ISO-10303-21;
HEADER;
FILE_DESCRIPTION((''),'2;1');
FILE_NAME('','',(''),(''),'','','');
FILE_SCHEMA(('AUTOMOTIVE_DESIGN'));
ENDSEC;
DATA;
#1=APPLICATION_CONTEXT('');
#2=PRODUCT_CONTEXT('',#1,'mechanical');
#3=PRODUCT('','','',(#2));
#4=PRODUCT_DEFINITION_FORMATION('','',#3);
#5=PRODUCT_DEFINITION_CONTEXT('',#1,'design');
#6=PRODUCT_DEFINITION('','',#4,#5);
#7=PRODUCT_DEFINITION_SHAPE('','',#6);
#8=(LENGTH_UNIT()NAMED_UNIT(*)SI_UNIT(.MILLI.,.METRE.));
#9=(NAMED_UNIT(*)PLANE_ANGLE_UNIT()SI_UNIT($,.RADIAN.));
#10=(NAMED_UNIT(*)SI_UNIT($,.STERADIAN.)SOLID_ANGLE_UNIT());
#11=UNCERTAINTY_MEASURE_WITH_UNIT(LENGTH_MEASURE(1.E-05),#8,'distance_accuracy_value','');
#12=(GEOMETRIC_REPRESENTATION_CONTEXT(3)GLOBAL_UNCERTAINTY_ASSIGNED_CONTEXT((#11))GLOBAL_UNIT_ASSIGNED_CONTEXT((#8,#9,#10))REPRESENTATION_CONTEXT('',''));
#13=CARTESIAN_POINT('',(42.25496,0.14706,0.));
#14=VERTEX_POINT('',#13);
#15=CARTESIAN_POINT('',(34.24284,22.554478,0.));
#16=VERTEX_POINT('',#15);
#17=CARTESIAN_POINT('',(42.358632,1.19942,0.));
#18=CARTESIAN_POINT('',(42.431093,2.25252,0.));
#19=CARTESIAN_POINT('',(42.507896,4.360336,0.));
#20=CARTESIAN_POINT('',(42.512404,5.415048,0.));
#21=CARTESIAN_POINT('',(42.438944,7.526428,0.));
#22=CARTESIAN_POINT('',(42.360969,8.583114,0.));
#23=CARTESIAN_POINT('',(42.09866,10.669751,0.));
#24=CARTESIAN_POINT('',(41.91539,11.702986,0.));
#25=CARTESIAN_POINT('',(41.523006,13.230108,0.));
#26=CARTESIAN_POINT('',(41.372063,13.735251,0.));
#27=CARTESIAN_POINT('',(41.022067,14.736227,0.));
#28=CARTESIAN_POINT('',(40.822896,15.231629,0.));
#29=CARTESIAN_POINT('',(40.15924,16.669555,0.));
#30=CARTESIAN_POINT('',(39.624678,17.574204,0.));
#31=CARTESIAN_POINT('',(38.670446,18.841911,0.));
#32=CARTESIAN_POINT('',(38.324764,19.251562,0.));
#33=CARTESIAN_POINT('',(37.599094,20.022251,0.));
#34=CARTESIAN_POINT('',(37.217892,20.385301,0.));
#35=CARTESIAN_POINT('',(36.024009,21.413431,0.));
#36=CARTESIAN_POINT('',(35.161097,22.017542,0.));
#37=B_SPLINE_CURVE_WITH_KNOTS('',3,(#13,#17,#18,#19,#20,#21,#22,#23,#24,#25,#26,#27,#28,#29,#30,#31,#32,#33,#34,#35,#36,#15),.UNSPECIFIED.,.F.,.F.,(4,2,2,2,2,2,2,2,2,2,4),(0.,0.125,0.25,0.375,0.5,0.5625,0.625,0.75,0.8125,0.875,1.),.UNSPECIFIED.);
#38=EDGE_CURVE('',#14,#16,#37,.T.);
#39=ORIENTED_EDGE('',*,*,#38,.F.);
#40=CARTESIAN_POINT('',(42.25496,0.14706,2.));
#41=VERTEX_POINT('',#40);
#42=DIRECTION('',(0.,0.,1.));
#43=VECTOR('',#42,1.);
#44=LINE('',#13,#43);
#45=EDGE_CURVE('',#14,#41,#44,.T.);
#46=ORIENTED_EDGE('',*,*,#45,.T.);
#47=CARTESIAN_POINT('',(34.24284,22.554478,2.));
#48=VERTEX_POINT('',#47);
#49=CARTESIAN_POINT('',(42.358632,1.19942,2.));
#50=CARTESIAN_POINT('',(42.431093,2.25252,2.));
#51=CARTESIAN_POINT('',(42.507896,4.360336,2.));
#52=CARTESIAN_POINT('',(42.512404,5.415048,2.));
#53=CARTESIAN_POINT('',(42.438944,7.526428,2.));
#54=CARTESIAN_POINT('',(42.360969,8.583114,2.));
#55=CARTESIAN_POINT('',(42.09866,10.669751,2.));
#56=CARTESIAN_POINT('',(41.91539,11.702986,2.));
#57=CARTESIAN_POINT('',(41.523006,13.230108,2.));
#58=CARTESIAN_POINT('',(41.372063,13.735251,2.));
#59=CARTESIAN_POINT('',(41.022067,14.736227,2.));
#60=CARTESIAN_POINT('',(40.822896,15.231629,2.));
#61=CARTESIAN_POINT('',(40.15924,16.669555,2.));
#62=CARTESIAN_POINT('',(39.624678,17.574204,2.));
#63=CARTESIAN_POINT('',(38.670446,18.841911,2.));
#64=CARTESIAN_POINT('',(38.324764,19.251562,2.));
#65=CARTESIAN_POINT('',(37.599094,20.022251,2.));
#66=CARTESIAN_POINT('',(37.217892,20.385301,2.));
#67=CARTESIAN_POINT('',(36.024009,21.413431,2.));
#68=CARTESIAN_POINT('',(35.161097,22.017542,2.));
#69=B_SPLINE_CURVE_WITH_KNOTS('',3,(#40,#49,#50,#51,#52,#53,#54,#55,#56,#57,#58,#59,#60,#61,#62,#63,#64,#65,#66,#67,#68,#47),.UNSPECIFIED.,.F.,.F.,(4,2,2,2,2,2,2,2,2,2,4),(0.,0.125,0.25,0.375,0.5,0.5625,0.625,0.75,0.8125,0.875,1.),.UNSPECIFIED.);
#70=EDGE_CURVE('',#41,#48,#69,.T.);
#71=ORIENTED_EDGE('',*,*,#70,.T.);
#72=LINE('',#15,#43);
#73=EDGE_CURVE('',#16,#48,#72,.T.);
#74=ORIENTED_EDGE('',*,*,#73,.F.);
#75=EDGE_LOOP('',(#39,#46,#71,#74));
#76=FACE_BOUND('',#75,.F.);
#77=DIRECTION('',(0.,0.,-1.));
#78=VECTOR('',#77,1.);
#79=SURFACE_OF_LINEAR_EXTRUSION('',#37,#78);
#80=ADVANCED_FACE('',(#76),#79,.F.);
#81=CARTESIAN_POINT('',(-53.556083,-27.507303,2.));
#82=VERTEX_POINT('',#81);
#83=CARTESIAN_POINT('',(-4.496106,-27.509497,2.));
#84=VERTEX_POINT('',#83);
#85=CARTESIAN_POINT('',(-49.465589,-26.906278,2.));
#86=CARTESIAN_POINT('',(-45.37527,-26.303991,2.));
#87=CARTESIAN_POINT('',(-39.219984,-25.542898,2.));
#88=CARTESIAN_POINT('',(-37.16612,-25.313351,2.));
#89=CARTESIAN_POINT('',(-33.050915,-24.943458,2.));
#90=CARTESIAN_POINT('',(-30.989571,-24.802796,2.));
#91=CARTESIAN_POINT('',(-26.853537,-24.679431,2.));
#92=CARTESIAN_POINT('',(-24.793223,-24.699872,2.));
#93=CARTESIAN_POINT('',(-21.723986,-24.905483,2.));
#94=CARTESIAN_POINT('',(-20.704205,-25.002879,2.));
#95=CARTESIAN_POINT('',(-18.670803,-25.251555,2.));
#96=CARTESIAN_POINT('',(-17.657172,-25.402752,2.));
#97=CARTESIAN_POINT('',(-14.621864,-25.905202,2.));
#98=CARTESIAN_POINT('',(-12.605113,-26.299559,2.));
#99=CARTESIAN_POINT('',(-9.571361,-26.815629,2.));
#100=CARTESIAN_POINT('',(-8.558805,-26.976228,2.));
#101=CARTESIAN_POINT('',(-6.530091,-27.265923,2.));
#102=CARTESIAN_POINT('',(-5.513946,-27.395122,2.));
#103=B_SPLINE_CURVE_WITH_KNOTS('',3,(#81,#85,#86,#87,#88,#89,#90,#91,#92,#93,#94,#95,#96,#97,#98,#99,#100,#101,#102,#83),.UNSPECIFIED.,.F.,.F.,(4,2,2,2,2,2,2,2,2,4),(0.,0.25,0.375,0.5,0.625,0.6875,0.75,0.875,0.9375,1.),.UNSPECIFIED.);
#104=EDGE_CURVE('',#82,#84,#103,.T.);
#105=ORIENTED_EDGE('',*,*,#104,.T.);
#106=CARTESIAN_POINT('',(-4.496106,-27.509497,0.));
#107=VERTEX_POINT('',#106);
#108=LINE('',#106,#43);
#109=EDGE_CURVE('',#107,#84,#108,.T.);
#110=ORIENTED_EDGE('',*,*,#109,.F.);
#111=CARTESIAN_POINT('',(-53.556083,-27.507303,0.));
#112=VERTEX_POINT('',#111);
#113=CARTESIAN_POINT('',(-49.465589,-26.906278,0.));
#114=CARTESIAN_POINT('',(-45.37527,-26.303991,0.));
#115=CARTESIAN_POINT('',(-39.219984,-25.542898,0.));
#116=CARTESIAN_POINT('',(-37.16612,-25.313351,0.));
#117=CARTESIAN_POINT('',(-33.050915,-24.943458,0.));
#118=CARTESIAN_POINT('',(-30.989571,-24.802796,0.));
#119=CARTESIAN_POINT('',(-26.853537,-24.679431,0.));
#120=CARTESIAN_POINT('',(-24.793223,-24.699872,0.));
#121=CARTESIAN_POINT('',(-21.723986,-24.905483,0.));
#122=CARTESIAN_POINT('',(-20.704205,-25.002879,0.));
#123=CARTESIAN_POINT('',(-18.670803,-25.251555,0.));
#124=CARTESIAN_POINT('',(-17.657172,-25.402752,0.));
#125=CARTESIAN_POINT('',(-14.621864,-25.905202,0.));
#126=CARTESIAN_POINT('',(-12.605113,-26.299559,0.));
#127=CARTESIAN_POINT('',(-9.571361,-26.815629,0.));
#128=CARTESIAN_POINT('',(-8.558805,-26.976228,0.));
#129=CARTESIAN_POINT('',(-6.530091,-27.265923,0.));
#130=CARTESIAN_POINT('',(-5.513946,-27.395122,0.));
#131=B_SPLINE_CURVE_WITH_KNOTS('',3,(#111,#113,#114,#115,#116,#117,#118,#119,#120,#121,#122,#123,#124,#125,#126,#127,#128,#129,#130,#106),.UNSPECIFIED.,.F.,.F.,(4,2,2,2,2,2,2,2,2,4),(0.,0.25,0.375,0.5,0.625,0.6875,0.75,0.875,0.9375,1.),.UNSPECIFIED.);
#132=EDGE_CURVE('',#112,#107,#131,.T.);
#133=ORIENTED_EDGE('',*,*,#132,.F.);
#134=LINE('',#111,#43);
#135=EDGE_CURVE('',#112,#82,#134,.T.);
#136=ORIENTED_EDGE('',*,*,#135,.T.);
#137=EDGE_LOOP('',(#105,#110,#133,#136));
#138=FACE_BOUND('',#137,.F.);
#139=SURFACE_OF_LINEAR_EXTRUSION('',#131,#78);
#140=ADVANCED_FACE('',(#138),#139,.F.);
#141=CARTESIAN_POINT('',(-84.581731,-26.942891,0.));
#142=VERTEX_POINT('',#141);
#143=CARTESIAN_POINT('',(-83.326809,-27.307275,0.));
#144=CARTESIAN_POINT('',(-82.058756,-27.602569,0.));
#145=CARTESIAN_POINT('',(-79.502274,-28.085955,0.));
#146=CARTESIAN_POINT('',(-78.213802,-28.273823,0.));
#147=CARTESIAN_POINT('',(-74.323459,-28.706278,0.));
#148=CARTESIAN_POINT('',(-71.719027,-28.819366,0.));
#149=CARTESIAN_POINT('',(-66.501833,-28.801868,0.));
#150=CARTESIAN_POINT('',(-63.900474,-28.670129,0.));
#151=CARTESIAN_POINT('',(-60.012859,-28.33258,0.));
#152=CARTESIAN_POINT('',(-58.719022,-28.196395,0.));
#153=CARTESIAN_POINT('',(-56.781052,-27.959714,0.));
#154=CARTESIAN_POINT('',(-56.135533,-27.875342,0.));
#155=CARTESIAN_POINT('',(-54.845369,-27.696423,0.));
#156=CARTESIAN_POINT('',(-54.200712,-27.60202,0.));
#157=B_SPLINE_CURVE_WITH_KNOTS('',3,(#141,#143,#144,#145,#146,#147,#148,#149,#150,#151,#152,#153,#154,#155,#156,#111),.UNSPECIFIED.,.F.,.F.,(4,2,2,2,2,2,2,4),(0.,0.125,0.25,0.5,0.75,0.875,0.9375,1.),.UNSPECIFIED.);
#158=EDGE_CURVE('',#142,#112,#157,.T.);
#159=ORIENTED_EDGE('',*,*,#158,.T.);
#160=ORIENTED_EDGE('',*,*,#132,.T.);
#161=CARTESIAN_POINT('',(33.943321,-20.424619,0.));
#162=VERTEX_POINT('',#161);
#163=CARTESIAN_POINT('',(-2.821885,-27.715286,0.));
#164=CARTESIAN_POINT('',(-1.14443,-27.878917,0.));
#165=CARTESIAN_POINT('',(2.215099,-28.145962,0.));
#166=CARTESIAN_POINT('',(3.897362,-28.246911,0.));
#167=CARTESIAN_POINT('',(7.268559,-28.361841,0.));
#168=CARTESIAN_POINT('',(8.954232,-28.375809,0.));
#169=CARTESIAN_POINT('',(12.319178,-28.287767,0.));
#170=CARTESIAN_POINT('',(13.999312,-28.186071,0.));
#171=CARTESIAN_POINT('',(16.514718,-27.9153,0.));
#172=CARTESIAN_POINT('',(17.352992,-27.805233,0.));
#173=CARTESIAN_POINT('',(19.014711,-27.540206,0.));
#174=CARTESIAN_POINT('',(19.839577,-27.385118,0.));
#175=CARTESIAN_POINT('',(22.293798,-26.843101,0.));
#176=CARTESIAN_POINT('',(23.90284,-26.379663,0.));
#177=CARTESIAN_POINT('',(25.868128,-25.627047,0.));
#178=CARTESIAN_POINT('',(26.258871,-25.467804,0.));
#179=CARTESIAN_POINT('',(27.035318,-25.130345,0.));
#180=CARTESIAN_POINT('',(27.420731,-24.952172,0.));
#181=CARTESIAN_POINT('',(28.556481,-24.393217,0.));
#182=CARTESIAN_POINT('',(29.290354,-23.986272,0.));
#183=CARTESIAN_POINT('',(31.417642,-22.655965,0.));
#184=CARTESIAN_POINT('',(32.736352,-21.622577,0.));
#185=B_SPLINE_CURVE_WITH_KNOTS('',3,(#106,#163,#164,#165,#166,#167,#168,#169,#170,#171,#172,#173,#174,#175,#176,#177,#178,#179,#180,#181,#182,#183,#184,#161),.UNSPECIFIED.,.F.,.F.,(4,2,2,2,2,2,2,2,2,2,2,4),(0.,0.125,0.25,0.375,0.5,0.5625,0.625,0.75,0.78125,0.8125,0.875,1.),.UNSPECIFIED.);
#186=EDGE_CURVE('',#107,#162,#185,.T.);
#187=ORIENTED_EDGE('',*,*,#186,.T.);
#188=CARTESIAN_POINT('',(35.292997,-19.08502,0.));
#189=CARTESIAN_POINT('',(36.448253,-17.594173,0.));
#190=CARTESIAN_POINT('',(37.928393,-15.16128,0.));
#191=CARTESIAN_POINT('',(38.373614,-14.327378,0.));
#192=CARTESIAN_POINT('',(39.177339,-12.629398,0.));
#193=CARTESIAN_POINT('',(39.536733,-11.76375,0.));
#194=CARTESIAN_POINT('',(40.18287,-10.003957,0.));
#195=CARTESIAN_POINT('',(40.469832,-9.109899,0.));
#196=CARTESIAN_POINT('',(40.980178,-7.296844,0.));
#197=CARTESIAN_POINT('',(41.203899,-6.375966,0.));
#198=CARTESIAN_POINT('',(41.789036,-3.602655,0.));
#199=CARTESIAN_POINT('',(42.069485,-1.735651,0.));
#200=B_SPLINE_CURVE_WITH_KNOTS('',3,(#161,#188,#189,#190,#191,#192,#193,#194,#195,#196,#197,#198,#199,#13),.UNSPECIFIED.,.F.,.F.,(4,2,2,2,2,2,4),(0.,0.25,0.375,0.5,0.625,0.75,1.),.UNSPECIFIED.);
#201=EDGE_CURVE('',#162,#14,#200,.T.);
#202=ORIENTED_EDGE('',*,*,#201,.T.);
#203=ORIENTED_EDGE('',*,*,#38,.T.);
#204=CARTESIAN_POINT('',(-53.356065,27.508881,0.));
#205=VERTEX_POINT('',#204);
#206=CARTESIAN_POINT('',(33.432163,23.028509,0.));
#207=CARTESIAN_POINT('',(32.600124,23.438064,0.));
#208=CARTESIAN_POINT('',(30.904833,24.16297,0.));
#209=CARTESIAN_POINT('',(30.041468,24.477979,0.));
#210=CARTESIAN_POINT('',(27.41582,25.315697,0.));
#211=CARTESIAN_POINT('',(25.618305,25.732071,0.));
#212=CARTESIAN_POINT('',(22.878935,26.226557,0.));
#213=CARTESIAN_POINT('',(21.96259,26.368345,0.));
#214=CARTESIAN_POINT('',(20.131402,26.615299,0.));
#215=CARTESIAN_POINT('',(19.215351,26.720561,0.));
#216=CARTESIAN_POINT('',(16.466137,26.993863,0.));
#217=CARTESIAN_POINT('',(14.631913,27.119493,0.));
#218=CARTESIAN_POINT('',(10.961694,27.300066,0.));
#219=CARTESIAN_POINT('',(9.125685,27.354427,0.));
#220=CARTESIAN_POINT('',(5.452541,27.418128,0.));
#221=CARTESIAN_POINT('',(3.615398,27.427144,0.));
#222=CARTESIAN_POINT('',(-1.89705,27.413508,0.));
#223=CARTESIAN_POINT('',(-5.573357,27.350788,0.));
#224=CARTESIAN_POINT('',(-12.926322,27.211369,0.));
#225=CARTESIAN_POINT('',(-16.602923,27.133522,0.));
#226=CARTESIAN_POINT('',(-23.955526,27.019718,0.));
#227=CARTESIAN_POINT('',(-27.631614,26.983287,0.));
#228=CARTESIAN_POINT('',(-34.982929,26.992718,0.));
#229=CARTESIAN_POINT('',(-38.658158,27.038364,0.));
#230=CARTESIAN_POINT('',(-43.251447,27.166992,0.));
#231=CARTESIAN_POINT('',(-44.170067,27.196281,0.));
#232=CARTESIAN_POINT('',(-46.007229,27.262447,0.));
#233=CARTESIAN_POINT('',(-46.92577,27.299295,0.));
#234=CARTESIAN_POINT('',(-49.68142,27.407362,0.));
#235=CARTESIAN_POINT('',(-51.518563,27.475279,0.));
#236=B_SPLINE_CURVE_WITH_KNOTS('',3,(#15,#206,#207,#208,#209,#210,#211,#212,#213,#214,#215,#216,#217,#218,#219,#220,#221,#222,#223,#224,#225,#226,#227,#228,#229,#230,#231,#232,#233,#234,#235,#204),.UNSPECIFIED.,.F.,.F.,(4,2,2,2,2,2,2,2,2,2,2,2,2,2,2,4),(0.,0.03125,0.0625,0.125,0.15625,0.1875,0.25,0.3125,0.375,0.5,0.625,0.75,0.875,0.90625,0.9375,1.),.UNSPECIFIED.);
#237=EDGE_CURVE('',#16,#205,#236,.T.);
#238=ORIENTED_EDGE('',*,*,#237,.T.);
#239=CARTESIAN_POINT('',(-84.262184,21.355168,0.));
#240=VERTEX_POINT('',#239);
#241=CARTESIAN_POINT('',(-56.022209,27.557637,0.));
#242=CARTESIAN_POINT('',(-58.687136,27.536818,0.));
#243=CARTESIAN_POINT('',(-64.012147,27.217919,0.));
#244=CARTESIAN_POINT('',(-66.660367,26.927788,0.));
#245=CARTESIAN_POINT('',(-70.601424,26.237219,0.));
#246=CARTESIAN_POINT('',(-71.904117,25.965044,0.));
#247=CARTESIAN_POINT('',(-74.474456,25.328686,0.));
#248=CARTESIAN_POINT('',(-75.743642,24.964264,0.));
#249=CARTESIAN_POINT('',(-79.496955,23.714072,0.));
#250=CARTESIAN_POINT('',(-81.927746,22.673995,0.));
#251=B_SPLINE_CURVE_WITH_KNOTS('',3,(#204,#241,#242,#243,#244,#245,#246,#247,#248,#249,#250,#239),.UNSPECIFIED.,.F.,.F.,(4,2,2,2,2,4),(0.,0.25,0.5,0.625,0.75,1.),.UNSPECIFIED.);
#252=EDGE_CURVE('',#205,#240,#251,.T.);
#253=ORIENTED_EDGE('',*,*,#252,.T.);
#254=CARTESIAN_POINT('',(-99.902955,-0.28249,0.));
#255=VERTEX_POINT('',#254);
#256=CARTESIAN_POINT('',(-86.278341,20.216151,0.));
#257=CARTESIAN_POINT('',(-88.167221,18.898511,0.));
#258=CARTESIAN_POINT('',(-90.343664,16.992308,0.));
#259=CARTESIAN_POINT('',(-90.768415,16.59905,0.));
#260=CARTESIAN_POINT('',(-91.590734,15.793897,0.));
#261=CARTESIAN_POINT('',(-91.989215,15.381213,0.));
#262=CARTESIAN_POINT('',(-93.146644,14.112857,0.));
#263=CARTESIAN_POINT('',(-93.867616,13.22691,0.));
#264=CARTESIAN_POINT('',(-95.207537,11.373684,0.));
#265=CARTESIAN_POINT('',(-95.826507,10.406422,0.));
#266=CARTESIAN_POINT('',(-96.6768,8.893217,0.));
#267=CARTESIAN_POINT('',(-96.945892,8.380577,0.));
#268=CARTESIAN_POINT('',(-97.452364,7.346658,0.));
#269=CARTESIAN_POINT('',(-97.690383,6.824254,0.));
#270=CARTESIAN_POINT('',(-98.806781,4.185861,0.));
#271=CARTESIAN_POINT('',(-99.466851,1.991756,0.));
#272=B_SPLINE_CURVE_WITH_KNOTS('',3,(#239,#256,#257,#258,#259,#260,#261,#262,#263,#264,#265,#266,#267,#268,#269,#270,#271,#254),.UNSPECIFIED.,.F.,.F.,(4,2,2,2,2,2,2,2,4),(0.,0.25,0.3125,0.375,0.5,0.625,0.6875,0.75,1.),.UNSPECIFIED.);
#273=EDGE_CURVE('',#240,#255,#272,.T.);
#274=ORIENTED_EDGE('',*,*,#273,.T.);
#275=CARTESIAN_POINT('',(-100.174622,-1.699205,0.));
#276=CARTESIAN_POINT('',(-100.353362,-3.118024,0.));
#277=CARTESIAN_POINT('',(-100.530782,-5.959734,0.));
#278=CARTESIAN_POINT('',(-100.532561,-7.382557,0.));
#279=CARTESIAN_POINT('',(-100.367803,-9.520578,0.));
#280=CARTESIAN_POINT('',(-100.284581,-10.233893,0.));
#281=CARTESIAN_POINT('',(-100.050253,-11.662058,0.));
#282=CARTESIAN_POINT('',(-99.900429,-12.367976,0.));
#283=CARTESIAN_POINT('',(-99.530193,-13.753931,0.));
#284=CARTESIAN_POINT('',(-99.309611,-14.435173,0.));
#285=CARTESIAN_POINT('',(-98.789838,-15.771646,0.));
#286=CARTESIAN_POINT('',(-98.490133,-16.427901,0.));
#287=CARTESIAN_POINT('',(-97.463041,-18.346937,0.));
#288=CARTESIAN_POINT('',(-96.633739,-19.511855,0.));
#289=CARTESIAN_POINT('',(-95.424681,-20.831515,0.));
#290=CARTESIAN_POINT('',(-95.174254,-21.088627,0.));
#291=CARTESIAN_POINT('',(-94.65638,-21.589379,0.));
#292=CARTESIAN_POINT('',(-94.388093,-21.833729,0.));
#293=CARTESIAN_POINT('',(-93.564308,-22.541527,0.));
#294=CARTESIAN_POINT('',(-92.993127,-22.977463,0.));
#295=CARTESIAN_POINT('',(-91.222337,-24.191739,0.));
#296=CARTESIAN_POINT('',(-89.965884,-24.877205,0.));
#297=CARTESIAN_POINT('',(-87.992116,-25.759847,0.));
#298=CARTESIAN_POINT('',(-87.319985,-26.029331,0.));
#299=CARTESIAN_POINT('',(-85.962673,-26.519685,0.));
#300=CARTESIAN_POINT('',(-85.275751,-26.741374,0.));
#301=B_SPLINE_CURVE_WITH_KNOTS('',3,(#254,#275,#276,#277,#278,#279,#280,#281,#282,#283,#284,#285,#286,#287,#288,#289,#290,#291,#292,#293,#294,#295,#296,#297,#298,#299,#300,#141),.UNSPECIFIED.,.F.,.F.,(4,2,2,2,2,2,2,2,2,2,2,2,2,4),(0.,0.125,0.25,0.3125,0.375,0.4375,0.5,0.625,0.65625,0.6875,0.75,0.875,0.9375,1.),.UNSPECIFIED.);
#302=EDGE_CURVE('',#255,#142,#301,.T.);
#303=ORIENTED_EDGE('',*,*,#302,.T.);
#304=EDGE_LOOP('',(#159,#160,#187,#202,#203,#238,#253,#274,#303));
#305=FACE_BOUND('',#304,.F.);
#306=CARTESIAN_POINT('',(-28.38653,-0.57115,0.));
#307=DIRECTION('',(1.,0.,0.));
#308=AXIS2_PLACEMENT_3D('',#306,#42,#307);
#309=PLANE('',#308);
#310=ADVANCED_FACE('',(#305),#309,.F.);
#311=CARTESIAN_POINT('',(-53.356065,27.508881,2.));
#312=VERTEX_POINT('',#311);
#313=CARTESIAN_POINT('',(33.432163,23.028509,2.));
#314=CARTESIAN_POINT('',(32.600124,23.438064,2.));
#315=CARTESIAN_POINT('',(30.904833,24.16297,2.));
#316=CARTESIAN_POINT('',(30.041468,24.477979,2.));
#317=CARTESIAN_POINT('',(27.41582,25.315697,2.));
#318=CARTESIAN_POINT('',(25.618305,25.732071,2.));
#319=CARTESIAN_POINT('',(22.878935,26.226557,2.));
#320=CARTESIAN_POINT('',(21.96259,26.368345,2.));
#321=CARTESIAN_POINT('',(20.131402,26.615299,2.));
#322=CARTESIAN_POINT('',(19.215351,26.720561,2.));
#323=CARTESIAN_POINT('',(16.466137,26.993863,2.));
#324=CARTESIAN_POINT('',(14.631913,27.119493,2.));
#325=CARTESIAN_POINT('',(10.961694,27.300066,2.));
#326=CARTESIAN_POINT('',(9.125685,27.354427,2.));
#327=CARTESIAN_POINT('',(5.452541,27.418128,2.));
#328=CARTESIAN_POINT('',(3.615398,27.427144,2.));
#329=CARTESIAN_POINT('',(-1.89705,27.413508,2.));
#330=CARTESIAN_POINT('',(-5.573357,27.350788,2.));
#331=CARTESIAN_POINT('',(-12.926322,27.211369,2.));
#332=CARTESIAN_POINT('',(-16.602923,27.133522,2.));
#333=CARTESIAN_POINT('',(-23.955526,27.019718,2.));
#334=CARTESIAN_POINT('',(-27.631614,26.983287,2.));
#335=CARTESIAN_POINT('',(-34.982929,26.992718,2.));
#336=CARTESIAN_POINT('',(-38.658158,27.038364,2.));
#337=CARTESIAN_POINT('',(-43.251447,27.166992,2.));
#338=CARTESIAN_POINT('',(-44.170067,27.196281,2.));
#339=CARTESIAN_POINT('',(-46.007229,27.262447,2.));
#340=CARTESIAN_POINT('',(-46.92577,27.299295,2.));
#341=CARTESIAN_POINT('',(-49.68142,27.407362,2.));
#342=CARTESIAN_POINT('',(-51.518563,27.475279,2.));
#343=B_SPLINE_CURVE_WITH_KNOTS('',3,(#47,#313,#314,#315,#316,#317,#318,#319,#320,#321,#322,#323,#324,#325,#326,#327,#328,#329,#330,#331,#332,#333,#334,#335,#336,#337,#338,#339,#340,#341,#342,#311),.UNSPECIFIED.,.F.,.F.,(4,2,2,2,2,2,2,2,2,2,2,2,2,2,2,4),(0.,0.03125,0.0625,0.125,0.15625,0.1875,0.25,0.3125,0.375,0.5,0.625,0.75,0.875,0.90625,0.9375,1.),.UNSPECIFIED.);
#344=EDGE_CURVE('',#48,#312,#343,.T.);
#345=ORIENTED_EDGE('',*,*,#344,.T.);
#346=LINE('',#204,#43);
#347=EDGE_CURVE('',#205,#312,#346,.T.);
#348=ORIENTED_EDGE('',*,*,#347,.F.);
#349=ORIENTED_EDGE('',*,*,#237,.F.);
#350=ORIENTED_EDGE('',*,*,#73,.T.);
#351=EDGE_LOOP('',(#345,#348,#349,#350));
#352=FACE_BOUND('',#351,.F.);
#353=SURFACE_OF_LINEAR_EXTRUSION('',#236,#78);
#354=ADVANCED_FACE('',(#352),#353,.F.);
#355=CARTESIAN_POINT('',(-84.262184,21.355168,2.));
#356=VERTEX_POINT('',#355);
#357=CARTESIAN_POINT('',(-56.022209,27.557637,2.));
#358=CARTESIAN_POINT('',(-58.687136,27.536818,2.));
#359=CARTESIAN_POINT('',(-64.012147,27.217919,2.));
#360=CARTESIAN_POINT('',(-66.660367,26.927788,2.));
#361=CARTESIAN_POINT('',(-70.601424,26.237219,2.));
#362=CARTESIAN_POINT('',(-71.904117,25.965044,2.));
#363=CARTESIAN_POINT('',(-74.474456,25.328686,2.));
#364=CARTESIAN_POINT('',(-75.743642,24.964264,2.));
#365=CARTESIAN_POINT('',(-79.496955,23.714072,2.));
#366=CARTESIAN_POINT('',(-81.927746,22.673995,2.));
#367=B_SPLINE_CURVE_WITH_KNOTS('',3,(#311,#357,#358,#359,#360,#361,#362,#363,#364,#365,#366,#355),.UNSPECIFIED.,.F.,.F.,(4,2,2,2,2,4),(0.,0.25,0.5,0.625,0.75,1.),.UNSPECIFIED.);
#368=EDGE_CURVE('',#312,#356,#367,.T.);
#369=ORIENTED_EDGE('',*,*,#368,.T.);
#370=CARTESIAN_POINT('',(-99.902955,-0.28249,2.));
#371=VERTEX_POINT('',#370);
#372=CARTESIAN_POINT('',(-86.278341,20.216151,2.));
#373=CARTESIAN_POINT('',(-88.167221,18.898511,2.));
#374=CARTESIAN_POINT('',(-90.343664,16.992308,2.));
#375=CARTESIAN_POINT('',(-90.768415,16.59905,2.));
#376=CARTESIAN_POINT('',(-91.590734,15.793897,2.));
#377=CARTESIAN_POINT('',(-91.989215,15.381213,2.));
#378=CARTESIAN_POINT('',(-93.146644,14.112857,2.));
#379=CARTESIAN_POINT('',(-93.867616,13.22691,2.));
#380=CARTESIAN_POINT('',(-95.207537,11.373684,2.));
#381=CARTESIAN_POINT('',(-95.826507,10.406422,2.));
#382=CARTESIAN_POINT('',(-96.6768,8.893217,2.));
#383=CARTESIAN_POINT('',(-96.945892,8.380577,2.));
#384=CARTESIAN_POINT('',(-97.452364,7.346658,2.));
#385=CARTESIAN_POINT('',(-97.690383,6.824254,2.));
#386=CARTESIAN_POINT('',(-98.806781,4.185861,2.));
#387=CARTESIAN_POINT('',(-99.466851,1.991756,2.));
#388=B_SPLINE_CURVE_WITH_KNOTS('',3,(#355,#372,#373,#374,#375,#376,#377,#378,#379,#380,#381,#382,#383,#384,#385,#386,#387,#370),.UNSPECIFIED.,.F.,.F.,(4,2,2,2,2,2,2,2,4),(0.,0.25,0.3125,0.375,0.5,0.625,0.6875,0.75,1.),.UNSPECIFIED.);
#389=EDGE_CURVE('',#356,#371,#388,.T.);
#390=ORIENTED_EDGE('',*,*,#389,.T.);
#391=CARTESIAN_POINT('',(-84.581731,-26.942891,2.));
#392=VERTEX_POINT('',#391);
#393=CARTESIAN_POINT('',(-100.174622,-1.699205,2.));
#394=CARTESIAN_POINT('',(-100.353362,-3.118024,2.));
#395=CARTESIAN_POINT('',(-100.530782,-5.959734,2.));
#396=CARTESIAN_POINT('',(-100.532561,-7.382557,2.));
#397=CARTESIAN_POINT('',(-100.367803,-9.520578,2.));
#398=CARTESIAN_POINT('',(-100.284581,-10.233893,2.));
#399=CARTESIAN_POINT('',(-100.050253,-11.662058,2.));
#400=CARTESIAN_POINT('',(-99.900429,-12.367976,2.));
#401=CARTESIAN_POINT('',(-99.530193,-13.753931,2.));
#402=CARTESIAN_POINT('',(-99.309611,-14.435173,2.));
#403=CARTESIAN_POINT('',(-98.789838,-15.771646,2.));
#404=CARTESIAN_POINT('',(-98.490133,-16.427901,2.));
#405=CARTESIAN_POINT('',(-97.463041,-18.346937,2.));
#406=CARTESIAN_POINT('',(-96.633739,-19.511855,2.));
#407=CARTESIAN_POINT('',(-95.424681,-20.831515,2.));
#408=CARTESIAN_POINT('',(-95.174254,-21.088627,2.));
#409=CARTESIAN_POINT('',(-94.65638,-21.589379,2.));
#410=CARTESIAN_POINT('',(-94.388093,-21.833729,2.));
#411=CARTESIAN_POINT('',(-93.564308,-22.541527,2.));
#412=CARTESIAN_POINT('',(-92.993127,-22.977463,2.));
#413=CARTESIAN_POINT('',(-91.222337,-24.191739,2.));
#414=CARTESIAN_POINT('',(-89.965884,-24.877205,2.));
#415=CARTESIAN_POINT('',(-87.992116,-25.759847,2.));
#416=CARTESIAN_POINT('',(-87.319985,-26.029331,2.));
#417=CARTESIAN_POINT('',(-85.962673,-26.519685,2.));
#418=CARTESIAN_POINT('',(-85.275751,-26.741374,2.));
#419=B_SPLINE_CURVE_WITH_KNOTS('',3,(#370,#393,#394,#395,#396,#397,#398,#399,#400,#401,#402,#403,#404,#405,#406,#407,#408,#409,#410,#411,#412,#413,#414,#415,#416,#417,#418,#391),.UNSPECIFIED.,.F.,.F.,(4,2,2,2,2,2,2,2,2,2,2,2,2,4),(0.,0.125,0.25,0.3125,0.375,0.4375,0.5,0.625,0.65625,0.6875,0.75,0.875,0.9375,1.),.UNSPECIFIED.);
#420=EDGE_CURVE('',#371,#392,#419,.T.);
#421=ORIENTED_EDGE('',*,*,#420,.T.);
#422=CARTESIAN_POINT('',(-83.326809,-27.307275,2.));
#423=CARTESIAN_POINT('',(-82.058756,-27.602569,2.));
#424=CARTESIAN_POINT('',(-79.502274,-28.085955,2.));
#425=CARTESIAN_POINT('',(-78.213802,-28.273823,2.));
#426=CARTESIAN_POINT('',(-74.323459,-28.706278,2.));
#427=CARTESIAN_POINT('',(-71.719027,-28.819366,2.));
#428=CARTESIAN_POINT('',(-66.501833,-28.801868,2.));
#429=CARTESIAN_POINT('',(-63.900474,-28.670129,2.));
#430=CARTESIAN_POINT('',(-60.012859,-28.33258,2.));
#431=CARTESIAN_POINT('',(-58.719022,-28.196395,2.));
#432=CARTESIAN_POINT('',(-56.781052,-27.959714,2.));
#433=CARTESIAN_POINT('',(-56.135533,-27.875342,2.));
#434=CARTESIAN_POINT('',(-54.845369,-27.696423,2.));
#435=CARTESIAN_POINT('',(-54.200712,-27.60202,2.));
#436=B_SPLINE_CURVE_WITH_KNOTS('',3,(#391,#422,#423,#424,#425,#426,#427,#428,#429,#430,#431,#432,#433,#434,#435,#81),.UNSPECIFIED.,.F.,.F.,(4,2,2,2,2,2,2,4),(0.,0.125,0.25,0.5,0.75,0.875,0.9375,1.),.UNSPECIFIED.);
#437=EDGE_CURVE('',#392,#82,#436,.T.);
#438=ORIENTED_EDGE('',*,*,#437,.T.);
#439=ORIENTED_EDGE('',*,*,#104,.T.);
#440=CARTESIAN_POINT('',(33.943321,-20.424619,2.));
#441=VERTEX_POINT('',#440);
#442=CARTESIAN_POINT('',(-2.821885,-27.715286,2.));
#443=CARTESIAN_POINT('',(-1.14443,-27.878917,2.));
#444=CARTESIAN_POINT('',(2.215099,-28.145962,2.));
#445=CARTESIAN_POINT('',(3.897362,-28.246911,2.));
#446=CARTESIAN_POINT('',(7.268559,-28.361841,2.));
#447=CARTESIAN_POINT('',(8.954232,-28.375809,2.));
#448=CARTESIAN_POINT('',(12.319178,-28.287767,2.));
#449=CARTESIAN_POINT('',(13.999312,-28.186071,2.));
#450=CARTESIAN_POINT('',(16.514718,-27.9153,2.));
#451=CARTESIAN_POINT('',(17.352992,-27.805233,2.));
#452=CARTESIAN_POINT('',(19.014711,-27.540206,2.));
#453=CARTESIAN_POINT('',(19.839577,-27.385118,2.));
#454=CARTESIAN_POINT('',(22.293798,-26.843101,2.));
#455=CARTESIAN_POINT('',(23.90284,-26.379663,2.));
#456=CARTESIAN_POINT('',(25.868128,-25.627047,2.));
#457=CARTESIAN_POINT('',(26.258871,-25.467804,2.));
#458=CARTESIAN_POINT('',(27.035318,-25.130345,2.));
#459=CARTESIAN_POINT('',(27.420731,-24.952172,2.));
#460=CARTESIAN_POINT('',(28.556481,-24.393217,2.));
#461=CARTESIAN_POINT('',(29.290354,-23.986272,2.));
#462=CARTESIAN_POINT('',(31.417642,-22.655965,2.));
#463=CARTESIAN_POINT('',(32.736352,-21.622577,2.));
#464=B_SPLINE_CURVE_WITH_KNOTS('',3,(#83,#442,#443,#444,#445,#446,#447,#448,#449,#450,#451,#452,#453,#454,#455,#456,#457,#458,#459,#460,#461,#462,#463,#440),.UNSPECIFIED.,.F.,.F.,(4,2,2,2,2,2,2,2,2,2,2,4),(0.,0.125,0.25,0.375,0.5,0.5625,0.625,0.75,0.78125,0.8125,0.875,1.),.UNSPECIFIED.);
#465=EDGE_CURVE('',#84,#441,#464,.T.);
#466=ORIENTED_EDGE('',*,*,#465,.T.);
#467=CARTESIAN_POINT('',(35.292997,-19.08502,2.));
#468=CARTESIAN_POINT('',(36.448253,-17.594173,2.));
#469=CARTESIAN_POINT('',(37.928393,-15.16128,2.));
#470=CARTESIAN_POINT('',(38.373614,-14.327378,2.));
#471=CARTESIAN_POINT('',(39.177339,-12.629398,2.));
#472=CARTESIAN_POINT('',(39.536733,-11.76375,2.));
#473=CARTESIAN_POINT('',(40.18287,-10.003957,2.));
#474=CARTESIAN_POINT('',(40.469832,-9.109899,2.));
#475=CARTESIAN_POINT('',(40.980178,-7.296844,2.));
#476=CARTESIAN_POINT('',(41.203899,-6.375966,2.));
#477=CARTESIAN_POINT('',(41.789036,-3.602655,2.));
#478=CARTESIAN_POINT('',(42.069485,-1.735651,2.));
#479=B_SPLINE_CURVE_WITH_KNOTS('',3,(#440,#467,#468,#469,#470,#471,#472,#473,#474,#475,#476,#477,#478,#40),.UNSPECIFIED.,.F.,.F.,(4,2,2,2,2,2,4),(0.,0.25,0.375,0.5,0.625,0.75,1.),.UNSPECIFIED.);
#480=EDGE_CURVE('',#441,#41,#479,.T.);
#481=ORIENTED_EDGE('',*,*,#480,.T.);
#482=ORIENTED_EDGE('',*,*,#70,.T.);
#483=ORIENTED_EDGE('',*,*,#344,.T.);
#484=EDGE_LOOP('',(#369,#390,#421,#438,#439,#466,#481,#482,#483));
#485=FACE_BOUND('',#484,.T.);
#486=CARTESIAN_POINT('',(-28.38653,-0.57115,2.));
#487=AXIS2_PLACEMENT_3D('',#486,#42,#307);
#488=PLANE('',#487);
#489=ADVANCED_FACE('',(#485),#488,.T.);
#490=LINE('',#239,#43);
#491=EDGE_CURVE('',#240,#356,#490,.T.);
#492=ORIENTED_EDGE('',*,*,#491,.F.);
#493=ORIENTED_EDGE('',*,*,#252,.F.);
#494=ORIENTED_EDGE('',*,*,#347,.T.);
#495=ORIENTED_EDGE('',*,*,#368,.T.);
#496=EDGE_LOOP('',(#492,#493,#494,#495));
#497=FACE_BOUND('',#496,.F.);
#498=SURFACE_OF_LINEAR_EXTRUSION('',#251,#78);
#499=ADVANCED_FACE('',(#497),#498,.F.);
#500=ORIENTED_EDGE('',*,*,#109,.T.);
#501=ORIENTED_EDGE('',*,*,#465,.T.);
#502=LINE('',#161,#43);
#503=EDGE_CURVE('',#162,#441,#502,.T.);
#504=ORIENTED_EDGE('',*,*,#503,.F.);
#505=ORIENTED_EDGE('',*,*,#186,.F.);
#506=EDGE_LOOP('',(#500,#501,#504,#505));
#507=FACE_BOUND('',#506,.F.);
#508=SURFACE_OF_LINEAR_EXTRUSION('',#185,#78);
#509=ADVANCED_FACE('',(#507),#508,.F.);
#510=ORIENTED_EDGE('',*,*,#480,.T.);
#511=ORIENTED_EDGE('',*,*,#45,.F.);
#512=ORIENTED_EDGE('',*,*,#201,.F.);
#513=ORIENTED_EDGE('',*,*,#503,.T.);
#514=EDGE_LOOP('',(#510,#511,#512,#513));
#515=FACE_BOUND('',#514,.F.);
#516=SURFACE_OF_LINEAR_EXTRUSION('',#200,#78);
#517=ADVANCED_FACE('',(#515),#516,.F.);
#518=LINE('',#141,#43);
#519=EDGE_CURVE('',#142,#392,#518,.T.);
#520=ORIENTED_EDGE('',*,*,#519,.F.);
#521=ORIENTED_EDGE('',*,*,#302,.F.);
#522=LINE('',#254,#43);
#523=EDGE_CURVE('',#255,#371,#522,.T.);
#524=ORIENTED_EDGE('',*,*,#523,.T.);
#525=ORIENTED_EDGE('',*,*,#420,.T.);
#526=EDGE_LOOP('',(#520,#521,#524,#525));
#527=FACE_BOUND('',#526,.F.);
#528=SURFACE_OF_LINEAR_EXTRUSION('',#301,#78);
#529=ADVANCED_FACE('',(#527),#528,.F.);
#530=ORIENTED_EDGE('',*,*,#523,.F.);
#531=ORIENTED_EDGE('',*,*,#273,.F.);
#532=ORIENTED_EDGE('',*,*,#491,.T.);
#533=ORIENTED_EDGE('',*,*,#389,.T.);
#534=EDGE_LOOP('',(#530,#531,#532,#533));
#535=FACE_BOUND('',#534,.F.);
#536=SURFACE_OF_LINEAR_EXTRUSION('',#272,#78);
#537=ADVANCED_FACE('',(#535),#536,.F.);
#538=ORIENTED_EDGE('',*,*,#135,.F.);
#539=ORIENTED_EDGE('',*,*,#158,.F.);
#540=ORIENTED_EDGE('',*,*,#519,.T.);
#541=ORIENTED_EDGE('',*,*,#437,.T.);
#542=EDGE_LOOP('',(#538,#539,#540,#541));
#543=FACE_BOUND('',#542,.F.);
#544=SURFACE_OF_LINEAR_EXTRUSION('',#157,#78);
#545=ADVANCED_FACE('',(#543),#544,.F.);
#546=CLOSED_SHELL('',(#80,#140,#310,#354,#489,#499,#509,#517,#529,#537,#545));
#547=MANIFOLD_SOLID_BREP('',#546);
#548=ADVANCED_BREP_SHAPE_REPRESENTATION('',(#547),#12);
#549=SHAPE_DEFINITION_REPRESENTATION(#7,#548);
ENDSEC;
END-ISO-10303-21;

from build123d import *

# Parameters (mm, degrees)
BOSS_EXTRUDE1_DEPTH = 2


with BuildPart() as part:
    # Sketch1 → Boss-Extrude1 (new body)
    with BuildSketch(Plane.XY):
        with BuildLine():
            add(Edge.make_bspline(
                [(42.254959693, 0.147059904), (42.358632415, 1.199419601), (42.431093, 2.252519668), (42.507895564, 4.360335613), (42.512403958, 5.415047543), (42.438944283, 7.526427791), (42.360968868, 8.583113716), (42.09865974, 10.66975069), (41.915389515, 11.702985715), (41.523005817, 13.230108257), (41.372062824, 13.735250738), (41.022066924, 14.73622728), (40.822896185, 15.231629468), (40.159240455, 16.669554621), (39.624677549, 17.574204207), (38.670446405, 18.841910545), (38.324763751, 19.251561585), (37.599094102, 20.022250678), (37.217891586, 20.385301348), (36.024008603, 21.413431301), (35.161096788, 22.017542036), (34.242840394, 22.554478016)],
                knots=[0, 0, 0, 0, 0.125, 0.125, 0.25, 0.25, 0.375, 0.375, 0.5, 0.5, 0.5625, 0.5625, 0.625, 0.625, 0.75, 0.75, 0.8125, 0.8125, 0.875, 0.875, 1, 1, 1, 1], degree=3))
            add(Edge.make_bspline(
                [(34.242840394, 22.554478016), (33.432163344, 23.028508667), (32.600124174, 23.438064349), (30.904833088, 24.162969666), (30.041468461, 24.47797912), (27.41581999, 25.315696923), (25.618305059, 25.732071103), (22.878935407, 26.226556605), (21.962590487, 26.36834517), (20.131401643, 26.615298727), (19.215351389, 26.720560508), (16.466137493, 26.993863209), (14.63191251, 27.119493097), (10.961693588, 27.300065699), (9.125685095, 27.354426791), (5.452541451, 27.418127948), (3.615398198, 27.42714421), (-1.897049716, 27.413507708), (-5.573357064, 27.350787708), (-12.926321579, 27.211369022), (-16.602922737, 27.133521657), (-23.955526241, 27.019717914), (-27.631613941, 26.983286898), (-34.982928847, 26.992718318), (-38.658158316, 27.038364256), (-43.251446787, 27.166991695), (-44.170067215, 27.19628112), (-46.007228743, 27.262446519), (-46.925770125, 27.29929548), (-49.681420206, 27.407362262), (-51.518563422, 27.475278936), (-53.356065443, 27.50888127)],
                knots=[0, 0, 0, 0, 0.03125, 0.03125, 0.0625, 0.0625, 0.125, 0.125, 0.15625, 0.15625, 0.1875, 0.1875, 0.25, 0.25, 0.3125, 0.3125, 0.375, 0.375, 0.5, 0.5, 0.625, 0.625, 0.75, 0.75, 0.875, 0.875, 0.90625, 0.90625, 0.9375, 0.9375, 1, 1, 1, 1], degree=3))
            add(Edge.make_bspline(
                [(-53.356065443, 27.50888127), (-56.022208632, 27.557636935), (-58.687136141, 27.53681843), (-64.012146511, 27.217918735), (-66.660366647, 26.927787667), (-70.601424233, 26.237218613), (-71.904117187, 25.965044304), (-74.474456216, 25.328685725), (-75.743641602, 24.96426376), (-79.496955186, 23.714072096), (-81.927745995, 22.673995356), (-84.262184454, 21.355167704)],
                knots=[0, 0, 0, 0, 0.25, 0.25, 0.5, 0.5, 0.625, 0.625, 0.75, 0.75, 1, 1, 1, 1], degree=3))
            add(Edge.make_bspline(
                [(-84.262184454, 21.355167704), (-86.278341457, 20.216151339), (-88.167221142, 18.89851058), (-90.34366433, 16.992307868), (-90.768414988, 16.599049831), (-91.590733965, 15.793897042), (-91.989215087, 15.381213437), (-93.146643825, 14.112857312), (-93.867615548, 13.226910361), (-95.207536565, 11.373684045), (-95.826506992, 10.406421529), (-96.676800294, 8.893216637), (-96.945891985, 8.380577294), (-97.45236363, 7.346658391), (-97.690383073, 6.824254117), (-98.806780685, 4.185861085), (-99.466850905, 1.991755978), (-99.902955458, -0.282489958)],
                knots=[0, 0, 0, 0, 0.25, 0.25, 0.3125, 0.3125, 0.375, 0.375, 0.5, 0.5, 0.625, 0.625, 0.6875, 0.6875, 0.75, 0.75, 1, 1, 1, 1], degree=3))
            add(Edge.make_bspline(
                [(-99.902955458, -0.282489958), (-100.174621796, -1.699205431), (-100.353361942, -3.118023586), (-100.530781956, -5.9597342), (-100.532561332, -7.382556525), (-100.367802656, -9.520578475), (-100.284580608, -10.233892872), (-100.050253317, -11.662057688), (-99.900428704, -12.367976371), (-99.530192584, -13.753930956), (-99.309610645, -14.435173261), (-98.789838053, -15.771646269), (-98.490133116, -16.4279006), (-97.463041163, -18.346936536), (-96.63373901, -19.511855047), (-95.424681248, -20.83151487), (-95.174253541, -21.088626653), (-94.656379787, -21.589379224), (-94.388093213, -21.833728916), (-93.564307826, -22.541526745), (-92.993127018, -22.97746297), (-91.222337094, -24.191738503), (-89.965884486, -24.877204756), (-87.992116497, -25.759847021), (-87.319984861, -26.02933053), (-85.962672705, -26.519685162), (-85.275750706, -26.741373503), (-84.58173062, -26.942891461)],
                knots=[0, 0, 0, 0, 0.125, 0.125, 0.25, 0.25, 0.3125, 0.3125, 0.375, 0.375, 0.4375, 0.4375, 0.5, 0.5, 0.625, 0.625, 0.65625, 0.65625, 0.6875, 0.6875, 0.75, 0.75, 0.875, 0.875, 0.9375, 0.9375, 1, 1, 1, 1], degree=3))
            add(Edge.make_bspline(
                [(-84.58173062, -26.942891461), (-83.326809321, -27.307274542), (-82.058756151, -27.602568632), (-79.502273692, -28.085954606), (-78.213801943, -28.2738231), (-74.323458733, -28.706278362), (-71.719026847, -28.819366471), (-66.501832883, -28.801867744), (-63.90047355, -28.670128954), (-60.012859191, -28.332580381), (-58.719022229, -28.196395499), (-56.781052152, -27.959713991), (-56.13553305, -27.875341554), (-54.84536933, -27.696423192), (-54.200712464, -27.602019753), (-53.556082534, -27.507302947)],
                knots=[0, 0, 0, 0, 0.125, 0.125, 0.25, 0.25, 0.5, 0.5, 0.75, 0.75, 0.875, 0.875, 0.9375, 0.9375, 1, 1, 1, 1], degree=3))
            add(Edge.make_bspline(
                [(-53.556082534, -27.507302947), (-49.465588578, -26.906278231), (-45.375270259, -26.303991445), (-39.2199843, -25.542898217), (-37.166119794, -25.313351344), (-33.050915381, -24.943457655), (-30.989571362, -24.802796264), (-26.853536993, -24.679431241), (-24.793222959, -24.69987176), (-21.723985805, -24.905483185), (-20.704205352, -25.002879486), (-18.670803274, -25.25155515), (-17.657172234, -25.402752145), (-14.621863726, -25.905202423), (-12.605112903, -26.299558503), (-9.571361183, -26.815628995), (-8.558804834, -26.976228369), (-6.530091249, -27.265923265), (-5.513945855, -27.395122387), (-4.496106034, -27.509497112)],
                knots=[0, 0, 0, 0, 0.25, 0.25, 0.375, 0.375, 0.5, 0.5, 0.625, 0.625, 0.6875, 0.6875, 0.75, 0.75, 0.875, 0.875, 0.9375, 0.9375, 1, 1, 1, 1], degree=3))
            add(Edge.make_bspline(
                [(-4.496106034, -27.509497112), (-2.821884664, -27.715285799), (-1.14442964, -27.878916637), (2.215099222, -28.145961833), (3.897362148, -28.246911018), (7.268558764, -28.361841173), (8.954231619, -28.375809142), (12.319177747, -28.287766615), (13.999311803, -28.186071246), (16.514718079, -27.915300175), (17.352991891, -27.805233486), (19.014710967, -27.540206182), (19.839577202, -27.385118383), (22.293798145, -26.843100868), (23.902840376, -26.379662939), (25.868128224, -25.627047386), (26.258870517, -25.467803642), (27.03531838, -25.130345022), (27.420730864, -24.952171991), (28.556481271, -24.393216735), (29.290353849, -23.986272043), (31.417641791, -22.655965297), (32.736351758, -21.622577389), (33.943321367, -20.424618656)],
                knots=[0, 0, 0, 0, 0.125, 0.125, 0.25, 0.25, 0.375, 0.375, 0.5, 0.5, 0.5625, 0.5625, 0.625, 0.625, 0.75, 0.75, 0.78125, 0.78125, 0.8125, 0.8125, 0.875, 0.875, 1, 1, 1, 1], degree=3))
            add(Edge.make_bspline(
                [(33.943321367, -20.424618656), (35.292996532, -19.085019764), (36.448253132, -17.594173169), (37.928392902, -15.161280487), (38.373614318, -14.327377943), (39.177339179, -12.629397714), (39.536733372, -11.763749893), (40.182870032, -10.003957398), (40.469832135, -9.109898874), (40.980178033, -7.296843923), (41.203899109, -6.375966058), (41.789035837, -3.602655454), (42.069485345, -1.73565064), (42.254959693, 0.147059904)],
                knots=[0, 0, 0, 0, 0.25, 0.25, 0.375, 0.375, 0.5, 0.5, 0.625, 0.625, 0.75, 0.75, 1, 1, 1, 1], degree=3))
        make_face()
    extrude(amount=BOSS_EXTRUDE1_DEPTH)


solid = part.part
